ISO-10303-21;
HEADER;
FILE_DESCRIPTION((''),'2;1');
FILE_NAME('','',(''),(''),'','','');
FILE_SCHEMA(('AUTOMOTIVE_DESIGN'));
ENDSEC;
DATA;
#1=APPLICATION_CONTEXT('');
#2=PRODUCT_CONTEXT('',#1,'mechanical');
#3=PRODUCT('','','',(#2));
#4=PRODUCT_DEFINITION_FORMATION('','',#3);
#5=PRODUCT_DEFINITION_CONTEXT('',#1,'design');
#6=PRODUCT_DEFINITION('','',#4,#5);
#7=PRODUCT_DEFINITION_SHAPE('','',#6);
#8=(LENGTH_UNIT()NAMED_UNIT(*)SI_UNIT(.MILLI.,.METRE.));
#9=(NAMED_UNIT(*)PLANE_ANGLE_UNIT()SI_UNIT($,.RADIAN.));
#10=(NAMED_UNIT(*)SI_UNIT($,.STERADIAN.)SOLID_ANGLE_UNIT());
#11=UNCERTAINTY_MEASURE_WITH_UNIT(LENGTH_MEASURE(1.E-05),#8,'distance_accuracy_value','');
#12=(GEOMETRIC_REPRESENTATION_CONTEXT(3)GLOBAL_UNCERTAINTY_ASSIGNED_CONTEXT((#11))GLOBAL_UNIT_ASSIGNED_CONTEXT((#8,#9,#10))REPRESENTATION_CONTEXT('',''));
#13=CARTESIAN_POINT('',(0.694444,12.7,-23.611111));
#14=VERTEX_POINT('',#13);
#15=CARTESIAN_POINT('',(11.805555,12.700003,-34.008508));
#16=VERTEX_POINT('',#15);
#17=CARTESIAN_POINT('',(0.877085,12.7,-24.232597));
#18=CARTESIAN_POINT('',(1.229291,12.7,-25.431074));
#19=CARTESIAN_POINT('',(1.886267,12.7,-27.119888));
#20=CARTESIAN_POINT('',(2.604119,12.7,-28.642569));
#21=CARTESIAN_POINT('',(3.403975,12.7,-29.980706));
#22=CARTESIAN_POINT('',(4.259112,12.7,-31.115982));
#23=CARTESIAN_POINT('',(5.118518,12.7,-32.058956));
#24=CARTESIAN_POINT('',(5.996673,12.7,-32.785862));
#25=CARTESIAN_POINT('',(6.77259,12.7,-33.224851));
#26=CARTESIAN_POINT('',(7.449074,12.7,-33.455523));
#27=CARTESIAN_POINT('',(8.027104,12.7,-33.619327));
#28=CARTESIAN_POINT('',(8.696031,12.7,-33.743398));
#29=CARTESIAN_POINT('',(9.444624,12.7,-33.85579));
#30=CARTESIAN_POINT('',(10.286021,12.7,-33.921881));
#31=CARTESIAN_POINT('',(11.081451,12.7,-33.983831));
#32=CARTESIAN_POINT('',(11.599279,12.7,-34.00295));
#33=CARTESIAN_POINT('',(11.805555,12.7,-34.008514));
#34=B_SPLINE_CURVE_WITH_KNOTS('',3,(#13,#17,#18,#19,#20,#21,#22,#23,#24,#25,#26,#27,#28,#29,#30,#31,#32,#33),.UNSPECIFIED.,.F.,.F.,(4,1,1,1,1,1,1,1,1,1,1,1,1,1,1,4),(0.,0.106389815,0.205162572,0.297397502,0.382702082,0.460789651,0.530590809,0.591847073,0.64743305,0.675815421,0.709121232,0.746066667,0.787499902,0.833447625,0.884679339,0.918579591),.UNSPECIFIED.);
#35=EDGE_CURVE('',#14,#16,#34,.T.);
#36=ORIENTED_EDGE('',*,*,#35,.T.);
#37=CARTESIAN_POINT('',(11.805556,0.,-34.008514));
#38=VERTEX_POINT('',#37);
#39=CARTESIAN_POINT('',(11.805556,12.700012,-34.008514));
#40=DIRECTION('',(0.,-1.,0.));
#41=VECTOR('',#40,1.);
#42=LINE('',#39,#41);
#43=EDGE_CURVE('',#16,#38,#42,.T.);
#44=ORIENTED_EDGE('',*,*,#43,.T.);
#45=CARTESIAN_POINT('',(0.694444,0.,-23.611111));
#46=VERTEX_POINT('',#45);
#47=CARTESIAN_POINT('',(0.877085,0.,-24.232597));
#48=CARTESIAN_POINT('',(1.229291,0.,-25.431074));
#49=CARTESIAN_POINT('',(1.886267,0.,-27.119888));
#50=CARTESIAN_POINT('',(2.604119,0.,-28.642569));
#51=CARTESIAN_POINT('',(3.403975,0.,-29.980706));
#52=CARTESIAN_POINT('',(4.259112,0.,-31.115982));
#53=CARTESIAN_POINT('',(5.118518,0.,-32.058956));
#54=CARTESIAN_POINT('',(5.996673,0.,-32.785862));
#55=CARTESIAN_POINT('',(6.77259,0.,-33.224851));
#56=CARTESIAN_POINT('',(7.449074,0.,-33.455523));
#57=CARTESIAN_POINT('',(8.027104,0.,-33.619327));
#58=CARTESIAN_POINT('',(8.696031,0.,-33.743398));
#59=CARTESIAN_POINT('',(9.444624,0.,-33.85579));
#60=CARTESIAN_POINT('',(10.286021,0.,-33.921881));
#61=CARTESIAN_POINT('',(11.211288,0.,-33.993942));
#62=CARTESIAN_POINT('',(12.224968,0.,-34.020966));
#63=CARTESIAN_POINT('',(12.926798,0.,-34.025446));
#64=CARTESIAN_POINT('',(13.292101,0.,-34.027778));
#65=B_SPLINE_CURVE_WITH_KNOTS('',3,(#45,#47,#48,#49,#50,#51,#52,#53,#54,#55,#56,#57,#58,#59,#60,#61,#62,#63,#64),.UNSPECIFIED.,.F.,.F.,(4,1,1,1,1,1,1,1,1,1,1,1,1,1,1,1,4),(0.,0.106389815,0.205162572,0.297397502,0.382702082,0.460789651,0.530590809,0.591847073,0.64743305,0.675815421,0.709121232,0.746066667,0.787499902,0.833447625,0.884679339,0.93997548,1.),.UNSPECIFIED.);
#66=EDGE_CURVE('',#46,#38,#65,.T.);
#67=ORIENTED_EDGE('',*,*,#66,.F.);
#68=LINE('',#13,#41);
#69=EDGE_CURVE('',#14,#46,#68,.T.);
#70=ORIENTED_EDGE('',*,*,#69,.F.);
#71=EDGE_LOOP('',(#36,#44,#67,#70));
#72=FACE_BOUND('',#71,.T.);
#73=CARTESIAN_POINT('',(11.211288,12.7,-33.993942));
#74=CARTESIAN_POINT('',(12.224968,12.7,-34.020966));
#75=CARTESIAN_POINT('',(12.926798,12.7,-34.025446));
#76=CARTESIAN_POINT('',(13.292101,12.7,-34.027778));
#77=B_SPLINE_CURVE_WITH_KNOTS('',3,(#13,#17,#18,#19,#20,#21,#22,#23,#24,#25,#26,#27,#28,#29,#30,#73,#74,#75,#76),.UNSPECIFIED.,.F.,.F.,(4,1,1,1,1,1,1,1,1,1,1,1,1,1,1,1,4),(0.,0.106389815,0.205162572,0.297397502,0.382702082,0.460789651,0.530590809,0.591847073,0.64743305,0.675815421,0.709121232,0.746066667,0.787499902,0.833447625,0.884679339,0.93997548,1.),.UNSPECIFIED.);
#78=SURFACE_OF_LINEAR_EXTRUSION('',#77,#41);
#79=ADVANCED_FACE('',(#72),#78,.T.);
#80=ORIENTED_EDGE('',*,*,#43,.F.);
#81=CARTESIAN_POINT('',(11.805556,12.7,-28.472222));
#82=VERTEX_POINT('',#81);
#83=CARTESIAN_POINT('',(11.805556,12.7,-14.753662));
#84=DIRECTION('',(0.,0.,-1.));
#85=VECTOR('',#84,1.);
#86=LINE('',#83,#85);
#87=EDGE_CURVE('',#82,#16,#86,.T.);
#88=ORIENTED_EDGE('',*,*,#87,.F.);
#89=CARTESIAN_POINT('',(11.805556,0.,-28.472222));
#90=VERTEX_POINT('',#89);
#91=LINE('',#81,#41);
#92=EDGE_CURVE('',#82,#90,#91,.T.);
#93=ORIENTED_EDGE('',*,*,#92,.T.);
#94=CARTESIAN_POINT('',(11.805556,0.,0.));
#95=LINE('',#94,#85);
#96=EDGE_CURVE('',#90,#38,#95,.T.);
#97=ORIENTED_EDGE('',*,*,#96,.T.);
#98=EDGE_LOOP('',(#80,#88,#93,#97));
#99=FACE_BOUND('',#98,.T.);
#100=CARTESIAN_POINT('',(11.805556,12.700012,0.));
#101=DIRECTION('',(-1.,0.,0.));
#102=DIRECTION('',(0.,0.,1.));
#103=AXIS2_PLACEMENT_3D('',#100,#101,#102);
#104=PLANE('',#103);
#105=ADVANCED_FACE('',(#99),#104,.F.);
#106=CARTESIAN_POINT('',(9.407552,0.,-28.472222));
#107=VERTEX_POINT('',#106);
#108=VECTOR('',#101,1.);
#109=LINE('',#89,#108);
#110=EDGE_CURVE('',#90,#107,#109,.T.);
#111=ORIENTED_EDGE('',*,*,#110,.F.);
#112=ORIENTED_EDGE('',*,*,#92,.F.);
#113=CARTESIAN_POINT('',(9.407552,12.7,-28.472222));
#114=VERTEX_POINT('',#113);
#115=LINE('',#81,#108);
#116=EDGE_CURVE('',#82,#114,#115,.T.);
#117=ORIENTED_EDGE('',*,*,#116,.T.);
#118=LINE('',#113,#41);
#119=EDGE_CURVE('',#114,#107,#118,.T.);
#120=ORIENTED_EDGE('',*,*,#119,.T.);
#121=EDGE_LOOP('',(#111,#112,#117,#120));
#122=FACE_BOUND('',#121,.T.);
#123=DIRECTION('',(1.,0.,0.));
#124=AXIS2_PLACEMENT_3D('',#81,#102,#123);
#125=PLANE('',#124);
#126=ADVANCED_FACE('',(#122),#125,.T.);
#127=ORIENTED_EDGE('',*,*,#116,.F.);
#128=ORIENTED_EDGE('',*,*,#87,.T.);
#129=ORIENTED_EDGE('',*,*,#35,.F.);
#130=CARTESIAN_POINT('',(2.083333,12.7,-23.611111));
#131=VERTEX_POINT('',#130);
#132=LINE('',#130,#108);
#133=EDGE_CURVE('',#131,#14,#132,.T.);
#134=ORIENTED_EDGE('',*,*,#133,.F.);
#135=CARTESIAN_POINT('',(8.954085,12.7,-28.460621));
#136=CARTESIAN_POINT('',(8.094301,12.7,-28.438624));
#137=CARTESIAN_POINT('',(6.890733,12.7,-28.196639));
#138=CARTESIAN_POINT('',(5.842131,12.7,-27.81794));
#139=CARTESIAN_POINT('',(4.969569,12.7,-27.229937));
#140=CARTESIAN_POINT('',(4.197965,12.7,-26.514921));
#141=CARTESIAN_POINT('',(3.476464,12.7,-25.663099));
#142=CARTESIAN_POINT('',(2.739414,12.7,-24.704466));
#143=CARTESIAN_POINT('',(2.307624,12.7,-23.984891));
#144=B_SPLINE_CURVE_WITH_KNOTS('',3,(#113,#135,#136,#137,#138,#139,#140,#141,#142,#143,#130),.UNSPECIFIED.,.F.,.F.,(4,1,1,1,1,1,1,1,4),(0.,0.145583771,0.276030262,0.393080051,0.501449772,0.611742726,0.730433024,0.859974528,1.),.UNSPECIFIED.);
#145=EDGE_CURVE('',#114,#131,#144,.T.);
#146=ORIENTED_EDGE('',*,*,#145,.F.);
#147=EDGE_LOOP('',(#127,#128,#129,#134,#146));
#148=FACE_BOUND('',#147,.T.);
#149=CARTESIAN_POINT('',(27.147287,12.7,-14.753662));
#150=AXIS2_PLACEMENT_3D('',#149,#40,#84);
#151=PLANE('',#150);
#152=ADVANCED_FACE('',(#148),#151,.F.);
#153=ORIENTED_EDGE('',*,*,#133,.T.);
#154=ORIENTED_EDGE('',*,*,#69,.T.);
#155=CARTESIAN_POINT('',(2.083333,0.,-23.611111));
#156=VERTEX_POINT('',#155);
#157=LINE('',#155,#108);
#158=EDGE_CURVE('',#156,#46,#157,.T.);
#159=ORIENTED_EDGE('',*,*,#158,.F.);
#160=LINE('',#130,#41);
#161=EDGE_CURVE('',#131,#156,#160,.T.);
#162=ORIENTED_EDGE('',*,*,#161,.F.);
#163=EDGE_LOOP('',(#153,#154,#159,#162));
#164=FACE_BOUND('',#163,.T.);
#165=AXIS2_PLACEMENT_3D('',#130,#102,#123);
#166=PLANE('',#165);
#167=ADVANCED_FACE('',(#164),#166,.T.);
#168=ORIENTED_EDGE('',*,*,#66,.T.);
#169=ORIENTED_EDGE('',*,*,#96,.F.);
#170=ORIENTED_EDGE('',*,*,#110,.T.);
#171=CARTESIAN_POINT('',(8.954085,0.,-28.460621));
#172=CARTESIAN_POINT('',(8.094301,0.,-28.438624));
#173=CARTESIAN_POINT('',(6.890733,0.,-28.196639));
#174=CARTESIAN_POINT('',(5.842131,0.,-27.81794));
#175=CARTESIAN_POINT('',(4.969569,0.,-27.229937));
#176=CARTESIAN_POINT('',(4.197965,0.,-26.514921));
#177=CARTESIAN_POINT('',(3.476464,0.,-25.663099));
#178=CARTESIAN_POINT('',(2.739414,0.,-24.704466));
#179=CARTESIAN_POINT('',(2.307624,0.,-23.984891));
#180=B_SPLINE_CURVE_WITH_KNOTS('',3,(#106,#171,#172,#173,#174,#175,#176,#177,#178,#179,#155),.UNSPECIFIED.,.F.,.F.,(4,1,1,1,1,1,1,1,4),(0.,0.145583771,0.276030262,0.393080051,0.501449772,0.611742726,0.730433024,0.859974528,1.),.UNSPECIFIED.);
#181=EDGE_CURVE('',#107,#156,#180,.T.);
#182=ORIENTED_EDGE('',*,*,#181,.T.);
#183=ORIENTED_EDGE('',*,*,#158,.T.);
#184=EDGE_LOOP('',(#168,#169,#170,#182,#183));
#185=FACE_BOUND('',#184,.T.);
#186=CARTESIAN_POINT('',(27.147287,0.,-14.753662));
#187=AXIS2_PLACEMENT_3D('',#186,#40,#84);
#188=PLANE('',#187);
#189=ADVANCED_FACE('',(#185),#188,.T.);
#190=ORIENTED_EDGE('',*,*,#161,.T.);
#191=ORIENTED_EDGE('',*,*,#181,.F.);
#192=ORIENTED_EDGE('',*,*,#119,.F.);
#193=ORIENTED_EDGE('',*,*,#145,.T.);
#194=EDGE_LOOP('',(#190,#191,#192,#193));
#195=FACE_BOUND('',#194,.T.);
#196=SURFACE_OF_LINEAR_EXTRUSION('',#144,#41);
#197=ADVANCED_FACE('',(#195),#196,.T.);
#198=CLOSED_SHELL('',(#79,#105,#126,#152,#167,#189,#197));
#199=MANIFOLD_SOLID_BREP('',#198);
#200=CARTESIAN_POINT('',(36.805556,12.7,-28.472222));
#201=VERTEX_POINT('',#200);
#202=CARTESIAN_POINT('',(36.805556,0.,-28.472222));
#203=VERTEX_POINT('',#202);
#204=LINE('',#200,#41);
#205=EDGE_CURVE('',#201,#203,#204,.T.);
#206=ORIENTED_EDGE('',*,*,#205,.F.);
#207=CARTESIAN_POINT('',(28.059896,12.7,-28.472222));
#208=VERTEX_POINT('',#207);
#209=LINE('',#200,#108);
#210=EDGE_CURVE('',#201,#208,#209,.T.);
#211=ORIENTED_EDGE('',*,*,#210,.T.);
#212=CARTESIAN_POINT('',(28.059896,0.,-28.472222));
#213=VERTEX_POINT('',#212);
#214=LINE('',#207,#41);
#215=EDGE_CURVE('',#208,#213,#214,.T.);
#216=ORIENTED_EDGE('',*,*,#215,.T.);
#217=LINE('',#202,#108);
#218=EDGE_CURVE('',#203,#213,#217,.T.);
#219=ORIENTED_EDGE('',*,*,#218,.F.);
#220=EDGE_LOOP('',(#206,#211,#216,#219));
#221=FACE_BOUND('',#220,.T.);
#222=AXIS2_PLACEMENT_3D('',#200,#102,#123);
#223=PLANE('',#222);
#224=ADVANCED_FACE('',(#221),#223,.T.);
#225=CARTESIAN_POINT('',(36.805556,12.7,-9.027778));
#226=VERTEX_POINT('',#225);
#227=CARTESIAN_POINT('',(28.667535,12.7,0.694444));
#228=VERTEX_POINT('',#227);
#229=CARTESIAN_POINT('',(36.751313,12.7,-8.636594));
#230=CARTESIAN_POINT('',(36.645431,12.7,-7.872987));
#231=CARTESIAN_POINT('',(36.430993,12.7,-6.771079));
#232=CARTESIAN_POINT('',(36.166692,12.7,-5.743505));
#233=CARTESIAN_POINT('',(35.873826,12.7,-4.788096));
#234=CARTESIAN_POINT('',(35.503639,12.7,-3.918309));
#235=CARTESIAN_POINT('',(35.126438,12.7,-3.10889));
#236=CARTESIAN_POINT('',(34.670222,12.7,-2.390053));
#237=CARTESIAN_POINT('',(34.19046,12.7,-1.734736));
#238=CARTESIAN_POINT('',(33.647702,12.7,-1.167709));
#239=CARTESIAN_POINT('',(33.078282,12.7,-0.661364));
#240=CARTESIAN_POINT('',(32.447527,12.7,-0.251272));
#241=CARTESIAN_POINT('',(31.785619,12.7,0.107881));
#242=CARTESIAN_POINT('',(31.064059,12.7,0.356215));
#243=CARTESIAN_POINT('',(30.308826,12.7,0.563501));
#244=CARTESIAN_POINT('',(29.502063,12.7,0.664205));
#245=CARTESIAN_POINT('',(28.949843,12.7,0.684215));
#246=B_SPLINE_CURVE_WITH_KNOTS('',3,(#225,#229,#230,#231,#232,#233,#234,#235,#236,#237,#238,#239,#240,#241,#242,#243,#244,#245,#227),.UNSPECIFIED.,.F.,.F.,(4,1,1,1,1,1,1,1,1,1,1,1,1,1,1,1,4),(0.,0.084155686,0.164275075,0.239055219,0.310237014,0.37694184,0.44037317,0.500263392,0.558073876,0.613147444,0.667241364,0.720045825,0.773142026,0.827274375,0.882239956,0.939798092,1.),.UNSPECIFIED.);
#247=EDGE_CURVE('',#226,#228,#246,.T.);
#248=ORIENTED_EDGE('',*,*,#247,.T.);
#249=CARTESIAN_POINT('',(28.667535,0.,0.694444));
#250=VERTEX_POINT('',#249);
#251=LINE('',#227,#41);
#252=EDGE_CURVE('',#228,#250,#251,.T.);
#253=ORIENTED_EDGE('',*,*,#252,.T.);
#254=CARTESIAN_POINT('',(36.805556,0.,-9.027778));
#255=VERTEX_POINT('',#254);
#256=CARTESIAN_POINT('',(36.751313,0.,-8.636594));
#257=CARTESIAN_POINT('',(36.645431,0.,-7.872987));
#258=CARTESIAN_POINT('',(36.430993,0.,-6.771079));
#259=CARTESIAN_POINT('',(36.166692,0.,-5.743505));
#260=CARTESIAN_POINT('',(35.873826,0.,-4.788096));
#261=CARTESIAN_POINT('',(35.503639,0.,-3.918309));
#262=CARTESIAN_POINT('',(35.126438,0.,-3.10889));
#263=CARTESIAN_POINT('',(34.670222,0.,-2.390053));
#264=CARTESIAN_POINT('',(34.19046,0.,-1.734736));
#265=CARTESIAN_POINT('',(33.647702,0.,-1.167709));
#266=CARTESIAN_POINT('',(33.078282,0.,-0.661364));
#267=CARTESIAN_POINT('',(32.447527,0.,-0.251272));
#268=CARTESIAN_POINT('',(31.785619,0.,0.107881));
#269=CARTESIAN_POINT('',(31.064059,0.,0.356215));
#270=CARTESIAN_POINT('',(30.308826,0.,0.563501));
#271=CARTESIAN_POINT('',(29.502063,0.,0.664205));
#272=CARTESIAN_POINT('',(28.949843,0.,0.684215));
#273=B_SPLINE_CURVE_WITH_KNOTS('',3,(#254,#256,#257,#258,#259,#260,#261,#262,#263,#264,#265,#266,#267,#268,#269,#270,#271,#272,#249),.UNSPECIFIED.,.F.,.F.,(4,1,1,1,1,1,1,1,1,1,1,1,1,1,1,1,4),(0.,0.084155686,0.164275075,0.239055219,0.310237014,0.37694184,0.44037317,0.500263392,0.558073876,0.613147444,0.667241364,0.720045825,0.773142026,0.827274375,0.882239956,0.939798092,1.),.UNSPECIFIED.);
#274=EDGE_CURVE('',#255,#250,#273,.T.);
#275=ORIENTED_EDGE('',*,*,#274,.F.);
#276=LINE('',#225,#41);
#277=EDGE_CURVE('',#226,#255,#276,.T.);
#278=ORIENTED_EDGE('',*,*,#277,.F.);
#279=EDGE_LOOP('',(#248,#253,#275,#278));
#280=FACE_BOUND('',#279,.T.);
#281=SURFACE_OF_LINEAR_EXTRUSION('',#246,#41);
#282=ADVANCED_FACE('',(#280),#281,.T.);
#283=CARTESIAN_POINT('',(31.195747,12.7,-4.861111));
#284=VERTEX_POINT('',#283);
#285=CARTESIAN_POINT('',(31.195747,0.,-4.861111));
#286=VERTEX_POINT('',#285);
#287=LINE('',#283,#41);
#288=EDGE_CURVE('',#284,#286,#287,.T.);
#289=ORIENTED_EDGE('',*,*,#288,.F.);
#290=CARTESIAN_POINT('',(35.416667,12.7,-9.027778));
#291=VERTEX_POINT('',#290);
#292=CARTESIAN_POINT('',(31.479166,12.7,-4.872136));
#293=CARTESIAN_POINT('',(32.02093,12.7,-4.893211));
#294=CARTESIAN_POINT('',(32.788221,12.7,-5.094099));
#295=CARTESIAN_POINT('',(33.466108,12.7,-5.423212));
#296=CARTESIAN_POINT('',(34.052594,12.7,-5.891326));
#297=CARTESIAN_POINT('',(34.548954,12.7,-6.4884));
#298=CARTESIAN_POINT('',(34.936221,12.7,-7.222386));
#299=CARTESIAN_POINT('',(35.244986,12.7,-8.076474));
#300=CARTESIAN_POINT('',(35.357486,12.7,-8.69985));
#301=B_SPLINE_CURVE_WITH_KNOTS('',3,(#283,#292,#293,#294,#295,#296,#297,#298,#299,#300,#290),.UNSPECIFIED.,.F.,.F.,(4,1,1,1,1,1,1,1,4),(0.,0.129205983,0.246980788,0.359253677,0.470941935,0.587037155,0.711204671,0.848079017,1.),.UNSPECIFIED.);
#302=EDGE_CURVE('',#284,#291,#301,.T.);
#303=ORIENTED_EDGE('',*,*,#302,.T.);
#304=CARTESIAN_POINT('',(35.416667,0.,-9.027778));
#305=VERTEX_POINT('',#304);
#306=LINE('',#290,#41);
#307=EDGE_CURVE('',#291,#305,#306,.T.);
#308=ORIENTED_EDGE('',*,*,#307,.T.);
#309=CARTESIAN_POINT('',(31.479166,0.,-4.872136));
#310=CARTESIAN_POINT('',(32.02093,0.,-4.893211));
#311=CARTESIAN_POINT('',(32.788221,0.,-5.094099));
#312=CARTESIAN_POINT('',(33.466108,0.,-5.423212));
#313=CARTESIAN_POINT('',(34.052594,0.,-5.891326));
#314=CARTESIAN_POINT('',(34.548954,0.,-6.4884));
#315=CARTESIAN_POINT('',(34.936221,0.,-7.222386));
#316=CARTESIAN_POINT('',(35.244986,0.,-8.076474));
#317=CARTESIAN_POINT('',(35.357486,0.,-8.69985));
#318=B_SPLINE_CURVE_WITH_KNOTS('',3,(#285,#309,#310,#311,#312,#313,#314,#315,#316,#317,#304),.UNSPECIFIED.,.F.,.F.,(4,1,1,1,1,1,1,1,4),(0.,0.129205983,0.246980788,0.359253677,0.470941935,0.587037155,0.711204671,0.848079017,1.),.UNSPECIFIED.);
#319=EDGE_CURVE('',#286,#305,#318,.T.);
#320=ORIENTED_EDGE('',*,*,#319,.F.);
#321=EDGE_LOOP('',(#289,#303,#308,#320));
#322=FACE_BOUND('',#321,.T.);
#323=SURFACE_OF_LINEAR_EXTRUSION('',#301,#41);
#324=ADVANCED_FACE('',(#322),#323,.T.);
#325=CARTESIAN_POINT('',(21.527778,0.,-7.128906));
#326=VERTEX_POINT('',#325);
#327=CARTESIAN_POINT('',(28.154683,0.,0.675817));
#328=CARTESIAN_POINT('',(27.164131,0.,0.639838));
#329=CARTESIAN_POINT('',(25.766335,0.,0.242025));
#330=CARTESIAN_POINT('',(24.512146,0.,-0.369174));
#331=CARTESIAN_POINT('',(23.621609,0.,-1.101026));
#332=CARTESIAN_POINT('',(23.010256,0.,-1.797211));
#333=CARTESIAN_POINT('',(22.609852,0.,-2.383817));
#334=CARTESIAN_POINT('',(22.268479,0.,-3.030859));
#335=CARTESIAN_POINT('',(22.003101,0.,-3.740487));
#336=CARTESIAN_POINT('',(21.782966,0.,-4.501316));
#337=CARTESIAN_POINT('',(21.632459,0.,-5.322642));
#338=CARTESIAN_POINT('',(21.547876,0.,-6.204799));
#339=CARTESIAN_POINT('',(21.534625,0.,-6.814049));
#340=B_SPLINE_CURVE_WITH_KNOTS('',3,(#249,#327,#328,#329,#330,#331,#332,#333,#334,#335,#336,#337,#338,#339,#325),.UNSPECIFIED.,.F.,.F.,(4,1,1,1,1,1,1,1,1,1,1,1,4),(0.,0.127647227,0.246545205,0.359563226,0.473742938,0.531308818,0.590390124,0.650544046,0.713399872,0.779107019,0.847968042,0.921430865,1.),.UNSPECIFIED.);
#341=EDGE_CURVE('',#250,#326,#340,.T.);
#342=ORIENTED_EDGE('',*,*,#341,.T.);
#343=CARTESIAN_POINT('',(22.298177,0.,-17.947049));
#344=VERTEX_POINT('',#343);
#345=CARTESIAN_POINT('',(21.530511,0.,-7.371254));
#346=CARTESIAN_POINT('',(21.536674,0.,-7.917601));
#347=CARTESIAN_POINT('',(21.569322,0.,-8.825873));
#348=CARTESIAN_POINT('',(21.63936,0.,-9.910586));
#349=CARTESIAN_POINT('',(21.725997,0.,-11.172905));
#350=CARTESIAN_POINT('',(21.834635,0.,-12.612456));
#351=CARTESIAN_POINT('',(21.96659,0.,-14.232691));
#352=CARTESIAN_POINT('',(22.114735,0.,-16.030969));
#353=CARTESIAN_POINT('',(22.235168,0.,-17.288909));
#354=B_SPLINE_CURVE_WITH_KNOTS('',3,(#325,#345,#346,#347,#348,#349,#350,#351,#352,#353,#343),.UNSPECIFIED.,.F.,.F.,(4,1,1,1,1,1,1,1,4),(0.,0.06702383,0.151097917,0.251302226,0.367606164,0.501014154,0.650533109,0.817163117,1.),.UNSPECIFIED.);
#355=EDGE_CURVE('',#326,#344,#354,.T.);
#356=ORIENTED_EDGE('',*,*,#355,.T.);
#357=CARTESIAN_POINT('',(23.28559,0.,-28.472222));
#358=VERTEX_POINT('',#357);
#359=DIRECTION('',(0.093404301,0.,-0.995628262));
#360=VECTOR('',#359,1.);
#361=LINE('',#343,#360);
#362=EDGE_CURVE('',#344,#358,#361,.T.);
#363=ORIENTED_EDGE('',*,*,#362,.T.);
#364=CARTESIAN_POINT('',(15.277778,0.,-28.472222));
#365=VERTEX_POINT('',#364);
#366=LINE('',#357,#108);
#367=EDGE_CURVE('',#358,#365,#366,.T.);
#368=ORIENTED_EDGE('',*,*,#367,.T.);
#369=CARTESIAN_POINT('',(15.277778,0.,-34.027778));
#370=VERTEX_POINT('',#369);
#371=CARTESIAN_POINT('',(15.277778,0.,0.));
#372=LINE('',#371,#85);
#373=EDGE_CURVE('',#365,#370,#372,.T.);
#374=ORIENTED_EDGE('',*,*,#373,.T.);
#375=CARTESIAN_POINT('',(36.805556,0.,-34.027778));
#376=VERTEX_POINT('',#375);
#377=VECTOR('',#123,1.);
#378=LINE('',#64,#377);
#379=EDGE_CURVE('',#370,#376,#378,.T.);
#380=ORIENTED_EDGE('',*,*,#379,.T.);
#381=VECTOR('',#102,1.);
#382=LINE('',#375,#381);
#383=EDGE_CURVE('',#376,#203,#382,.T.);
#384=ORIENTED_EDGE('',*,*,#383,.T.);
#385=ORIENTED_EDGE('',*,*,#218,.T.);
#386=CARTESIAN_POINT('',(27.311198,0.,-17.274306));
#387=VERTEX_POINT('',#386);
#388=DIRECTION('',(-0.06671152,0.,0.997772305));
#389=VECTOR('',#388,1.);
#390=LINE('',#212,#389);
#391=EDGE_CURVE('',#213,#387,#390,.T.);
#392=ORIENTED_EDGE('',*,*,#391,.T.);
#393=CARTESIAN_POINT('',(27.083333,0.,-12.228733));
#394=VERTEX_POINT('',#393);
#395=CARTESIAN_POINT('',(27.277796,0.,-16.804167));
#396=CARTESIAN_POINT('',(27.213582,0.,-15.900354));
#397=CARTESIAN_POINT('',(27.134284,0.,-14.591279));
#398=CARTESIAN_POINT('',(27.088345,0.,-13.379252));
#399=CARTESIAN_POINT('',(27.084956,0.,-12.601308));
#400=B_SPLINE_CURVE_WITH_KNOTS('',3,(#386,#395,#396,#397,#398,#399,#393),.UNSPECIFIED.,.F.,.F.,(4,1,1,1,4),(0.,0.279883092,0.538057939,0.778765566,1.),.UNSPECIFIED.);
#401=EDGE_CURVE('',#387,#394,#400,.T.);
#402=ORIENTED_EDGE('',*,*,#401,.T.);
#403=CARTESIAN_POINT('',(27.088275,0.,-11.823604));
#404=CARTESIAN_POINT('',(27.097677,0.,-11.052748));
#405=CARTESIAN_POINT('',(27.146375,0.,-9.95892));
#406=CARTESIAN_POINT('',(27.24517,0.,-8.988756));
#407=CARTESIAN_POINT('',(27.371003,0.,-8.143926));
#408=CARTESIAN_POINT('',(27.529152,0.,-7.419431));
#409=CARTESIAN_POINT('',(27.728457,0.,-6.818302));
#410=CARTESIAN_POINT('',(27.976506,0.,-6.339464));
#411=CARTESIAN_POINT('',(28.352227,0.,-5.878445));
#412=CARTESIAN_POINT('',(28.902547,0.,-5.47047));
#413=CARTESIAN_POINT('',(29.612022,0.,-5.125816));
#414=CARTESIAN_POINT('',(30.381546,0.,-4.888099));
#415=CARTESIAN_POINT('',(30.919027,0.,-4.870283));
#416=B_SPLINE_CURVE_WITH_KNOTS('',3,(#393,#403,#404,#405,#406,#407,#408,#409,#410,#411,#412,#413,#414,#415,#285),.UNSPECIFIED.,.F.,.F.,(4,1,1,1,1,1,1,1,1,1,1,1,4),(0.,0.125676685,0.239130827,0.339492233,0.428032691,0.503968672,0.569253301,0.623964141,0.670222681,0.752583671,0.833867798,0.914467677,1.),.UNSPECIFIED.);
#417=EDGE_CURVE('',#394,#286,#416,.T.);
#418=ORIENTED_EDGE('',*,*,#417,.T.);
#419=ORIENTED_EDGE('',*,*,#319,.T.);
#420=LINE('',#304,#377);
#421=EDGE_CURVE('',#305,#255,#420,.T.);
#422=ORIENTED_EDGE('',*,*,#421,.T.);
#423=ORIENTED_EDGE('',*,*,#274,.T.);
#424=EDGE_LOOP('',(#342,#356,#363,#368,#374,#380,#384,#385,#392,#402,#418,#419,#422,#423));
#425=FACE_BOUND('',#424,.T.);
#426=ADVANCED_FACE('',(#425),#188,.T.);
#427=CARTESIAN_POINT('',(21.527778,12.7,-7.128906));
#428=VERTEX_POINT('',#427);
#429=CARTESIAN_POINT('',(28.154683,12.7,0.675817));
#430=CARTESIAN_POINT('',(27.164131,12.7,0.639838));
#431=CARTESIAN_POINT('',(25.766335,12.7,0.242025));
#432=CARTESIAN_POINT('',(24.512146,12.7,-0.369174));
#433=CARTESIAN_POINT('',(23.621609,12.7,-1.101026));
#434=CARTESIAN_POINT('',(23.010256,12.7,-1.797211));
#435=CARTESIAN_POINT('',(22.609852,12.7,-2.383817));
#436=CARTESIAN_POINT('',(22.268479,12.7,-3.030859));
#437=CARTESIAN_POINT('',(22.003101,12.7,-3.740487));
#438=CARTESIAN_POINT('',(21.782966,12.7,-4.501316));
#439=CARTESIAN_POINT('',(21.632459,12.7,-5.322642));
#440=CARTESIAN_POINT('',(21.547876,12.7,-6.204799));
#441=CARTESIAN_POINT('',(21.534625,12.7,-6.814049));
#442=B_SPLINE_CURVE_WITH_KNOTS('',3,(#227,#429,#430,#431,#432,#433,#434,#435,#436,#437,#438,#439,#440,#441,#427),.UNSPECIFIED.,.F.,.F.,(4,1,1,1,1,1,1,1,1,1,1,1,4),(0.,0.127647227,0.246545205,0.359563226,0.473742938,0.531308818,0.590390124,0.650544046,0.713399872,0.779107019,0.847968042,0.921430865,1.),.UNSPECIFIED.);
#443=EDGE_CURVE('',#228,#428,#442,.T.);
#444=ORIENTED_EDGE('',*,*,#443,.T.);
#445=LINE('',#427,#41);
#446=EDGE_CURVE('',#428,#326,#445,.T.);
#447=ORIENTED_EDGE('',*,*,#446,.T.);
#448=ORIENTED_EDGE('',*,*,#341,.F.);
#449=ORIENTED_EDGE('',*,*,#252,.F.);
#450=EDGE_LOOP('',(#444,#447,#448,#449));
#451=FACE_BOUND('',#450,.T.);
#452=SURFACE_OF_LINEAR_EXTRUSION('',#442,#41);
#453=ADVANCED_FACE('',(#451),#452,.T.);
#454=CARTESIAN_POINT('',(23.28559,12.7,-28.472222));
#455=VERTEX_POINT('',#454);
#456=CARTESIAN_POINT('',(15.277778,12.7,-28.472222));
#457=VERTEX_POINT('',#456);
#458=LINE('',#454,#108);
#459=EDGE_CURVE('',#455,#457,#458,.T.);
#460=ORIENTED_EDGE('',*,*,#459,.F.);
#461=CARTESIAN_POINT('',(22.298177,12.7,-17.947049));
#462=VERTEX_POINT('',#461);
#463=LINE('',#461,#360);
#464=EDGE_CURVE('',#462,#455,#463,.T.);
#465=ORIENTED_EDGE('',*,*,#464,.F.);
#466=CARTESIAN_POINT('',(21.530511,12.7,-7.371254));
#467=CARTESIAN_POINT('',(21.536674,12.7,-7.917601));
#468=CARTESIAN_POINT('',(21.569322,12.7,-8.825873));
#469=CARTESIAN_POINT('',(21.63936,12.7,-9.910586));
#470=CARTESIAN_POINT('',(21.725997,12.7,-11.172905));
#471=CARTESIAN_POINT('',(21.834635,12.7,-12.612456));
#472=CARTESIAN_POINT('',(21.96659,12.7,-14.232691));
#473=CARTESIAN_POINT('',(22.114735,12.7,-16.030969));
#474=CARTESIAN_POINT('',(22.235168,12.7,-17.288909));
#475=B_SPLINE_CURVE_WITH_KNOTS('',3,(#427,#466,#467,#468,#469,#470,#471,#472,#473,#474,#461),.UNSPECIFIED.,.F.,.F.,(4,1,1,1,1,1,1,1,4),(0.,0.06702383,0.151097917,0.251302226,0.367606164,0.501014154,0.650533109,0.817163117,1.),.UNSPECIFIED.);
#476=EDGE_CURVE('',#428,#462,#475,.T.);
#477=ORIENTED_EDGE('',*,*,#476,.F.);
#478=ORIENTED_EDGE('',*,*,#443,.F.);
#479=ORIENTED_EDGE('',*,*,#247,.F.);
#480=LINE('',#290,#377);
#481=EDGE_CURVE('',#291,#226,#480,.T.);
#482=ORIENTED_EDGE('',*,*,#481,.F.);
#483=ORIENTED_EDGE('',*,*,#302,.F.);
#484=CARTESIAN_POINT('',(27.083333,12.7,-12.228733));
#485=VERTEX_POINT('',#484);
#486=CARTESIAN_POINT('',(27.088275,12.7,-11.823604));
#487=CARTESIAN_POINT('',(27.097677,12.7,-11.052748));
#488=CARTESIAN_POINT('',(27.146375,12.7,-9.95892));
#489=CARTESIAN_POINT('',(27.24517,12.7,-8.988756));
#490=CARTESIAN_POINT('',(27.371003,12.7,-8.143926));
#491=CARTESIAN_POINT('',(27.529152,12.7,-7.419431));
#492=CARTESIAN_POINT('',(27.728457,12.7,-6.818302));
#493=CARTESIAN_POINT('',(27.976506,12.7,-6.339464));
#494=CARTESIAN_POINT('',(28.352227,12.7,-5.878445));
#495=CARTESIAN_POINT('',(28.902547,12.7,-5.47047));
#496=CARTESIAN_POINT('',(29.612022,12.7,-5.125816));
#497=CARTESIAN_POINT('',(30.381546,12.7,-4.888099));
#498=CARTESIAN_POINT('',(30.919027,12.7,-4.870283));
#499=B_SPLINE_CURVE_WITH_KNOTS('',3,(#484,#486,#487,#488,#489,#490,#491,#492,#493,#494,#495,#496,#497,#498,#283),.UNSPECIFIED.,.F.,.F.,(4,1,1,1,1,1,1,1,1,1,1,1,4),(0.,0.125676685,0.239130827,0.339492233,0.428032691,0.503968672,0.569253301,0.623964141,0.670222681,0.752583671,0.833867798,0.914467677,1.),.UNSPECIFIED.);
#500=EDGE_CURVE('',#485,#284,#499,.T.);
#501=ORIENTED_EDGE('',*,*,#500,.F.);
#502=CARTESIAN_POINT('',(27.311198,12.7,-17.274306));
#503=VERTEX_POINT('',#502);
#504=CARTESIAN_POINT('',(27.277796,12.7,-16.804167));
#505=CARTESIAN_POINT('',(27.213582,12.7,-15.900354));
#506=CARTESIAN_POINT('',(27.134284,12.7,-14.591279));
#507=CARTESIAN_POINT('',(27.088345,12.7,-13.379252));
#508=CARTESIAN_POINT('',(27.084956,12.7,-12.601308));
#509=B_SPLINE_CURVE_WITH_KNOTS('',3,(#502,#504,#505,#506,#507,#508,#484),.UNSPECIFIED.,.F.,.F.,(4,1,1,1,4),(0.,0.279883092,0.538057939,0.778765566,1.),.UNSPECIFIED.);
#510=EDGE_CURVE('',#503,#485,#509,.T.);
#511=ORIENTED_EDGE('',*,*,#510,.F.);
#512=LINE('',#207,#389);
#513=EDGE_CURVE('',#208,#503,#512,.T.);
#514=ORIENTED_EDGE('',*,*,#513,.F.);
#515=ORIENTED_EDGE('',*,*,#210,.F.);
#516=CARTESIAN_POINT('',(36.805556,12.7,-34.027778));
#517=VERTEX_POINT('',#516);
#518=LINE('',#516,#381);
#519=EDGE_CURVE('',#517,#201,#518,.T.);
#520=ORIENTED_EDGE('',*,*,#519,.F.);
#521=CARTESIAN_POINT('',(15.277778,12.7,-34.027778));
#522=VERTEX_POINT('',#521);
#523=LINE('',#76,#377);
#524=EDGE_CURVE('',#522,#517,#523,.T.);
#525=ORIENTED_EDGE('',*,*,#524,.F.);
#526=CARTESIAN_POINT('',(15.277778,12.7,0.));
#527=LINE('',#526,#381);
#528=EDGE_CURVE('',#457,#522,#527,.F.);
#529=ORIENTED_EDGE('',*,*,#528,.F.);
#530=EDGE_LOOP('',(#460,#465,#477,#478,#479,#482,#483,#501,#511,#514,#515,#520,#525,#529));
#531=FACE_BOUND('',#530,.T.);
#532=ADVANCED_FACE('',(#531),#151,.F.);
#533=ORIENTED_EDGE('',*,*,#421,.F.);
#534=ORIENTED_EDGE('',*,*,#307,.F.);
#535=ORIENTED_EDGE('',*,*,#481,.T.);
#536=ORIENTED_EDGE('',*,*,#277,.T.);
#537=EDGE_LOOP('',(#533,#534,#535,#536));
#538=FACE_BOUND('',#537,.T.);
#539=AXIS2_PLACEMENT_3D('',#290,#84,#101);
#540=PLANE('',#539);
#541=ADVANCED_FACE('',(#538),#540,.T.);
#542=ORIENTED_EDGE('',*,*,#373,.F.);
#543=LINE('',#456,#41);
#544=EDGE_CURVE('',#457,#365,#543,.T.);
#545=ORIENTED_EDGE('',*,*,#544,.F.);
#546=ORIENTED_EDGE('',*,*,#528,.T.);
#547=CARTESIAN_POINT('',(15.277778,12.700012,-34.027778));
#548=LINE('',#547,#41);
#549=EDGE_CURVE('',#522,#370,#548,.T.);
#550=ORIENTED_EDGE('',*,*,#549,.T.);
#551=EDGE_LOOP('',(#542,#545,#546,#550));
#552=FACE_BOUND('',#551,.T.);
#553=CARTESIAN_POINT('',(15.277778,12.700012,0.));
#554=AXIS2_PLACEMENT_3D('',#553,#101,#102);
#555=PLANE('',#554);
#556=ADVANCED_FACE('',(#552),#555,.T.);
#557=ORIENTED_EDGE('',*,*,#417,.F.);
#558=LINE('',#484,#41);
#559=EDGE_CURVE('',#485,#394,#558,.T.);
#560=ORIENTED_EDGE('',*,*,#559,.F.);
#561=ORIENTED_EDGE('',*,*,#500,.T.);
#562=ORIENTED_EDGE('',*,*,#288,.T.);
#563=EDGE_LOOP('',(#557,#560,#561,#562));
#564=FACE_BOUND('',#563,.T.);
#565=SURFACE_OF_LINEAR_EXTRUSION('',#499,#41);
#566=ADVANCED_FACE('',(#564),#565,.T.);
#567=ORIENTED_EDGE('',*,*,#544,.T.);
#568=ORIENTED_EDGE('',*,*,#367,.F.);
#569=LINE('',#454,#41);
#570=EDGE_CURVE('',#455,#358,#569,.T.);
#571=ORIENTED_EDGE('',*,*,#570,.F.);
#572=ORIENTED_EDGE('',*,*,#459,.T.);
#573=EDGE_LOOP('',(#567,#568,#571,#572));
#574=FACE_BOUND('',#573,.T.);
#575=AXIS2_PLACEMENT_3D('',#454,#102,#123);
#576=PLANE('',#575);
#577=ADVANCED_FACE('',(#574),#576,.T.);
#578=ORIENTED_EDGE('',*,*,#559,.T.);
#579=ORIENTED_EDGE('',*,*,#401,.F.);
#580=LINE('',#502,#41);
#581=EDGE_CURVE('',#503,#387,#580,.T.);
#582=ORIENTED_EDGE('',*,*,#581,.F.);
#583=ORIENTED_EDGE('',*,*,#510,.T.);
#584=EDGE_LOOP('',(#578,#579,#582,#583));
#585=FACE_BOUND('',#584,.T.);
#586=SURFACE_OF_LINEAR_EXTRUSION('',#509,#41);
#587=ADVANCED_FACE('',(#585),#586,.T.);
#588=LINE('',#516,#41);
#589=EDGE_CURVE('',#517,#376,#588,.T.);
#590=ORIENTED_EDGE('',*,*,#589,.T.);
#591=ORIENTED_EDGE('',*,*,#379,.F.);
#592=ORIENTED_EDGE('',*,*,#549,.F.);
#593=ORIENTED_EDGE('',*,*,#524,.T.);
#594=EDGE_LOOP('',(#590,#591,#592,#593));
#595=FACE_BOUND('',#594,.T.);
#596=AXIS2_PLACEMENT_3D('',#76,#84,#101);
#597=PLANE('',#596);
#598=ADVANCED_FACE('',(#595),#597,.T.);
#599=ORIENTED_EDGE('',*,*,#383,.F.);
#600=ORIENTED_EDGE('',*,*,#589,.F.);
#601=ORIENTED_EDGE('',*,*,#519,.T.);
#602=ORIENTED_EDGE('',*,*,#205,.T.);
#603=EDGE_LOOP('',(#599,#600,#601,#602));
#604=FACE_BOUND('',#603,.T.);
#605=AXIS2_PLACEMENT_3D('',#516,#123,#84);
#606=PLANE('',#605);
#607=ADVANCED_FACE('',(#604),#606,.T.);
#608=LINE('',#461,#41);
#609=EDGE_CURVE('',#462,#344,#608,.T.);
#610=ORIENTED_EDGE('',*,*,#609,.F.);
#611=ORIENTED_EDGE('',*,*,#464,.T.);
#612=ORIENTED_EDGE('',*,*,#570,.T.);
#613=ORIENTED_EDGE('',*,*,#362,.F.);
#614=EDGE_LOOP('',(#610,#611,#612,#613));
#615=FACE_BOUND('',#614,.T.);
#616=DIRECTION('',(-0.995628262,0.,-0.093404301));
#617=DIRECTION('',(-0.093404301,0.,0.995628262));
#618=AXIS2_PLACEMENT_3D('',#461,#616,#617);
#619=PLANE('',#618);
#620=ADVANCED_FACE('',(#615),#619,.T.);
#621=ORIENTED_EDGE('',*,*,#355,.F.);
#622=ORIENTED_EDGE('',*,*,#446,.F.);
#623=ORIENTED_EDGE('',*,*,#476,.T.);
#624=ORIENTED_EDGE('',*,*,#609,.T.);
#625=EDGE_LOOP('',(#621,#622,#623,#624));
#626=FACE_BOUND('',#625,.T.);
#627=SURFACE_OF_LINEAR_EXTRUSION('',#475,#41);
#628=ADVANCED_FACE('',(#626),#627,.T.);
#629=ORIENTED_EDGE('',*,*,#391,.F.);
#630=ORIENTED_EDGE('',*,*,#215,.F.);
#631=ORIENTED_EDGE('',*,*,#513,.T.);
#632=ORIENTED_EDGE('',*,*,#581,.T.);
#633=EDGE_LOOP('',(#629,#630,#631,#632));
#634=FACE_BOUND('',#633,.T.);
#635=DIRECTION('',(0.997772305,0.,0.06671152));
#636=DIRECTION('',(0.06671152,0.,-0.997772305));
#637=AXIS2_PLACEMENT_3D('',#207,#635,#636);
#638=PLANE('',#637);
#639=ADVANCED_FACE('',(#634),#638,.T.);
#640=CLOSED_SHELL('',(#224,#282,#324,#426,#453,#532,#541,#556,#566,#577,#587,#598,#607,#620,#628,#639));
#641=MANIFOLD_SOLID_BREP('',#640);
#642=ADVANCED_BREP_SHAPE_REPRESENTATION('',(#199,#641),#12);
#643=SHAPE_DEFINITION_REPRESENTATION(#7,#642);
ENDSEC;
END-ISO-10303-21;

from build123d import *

# Parameters (mm, degrees)
BOSS_EXTRUDE1_DEPTH     = 12.7
CUT_EXTRUDE2_DEPTH      = 52.709076543
CUT_EXTRUDE2_DEPTH_BACK = 12.7


with BuildPart() as part:
    # Sketch2 → Boss-Extrude1 (new body)
    with BuildSketch(Plane(origin=(0, 0, 0), x_dir=(1, 0, 0), z_dir=(0, 1, 0))):
        with BuildLine():
            Line((36.805555556, 34.027777778), (36.805555556, 28.472222222))
            Line((36.805555556, 28.472222222), (28.059895833, 28.472222222))
            Line((28.059895833, 28.472222222), (27.311197917, 17.274305556))
            add(Edge.make_bspline(
                [(27.311197917, 17.274305556), (27.277795656, 16.804166639), (27.213581874, 15.900353642), (27.134284285, 14.591279231), (27.088344823, 13.379251723), (27.084956214, 12.601307574), (27.083333333, 12.228732639)],
                knots=[0, 0, 0, 0, 1.119532368, 2.152231754, 3.115062263, 4, 4, 4, 4], degree=3))
            add(Edge.make_bspline(
                [(27.083333333, 12.228732639), (27.088274581, 11.823604319), (27.097676522, 11.052747972), (27.1463749, 9.958919939), (27.245170271, 8.988755862), (27.371002693, 8.143926135), (27.529152233, 7.419430528), (27.728457334, 6.818301639), (27.97650636, 6.339464464), (28.352227221, 5.878445418), (28.902546694, 5.47047021), (29.612022333, 5.12581616), (30.381545964, 4.888099058), (30.919027092, 4.870283408), (31.195746528, 4.861111111)],
                knots=[0, 0, 0, 0, 1.508120221, 2.869569927, 4.073906796, 5.136392291, 6.047624064, 6.831039609, 7.487569696, 8.042672177, 9.031004047, 10.006413578, 10.97361213, 12, 12, 12, 12], degree=3))
            add(Edge.make_bspline(
                [(31.195746528, 4.861111111), (31.47916585, 4.872136088), (32.020929674, 4.893210634), (32.788220791, 5.094099051), (33.466107529, 5.423211567), (34.05259416, 5.891325855), (34.548953998, 6.488400226), (34.936220725, 7.22238631), (35.244986398, 8.076473761), (35.357486114, 8.699850181), (35.416666667, 9.027777778)],
                knots=[0, 0, 0, 0, 1.033647866, 1.975846305, 2.874029418, 3.767535477, 4.696297243, 5.689637366, 6.784632136, 8, 8, 8, 8], degree=3))
            Line((35.416666667, 9.027777778), (36.805555556, 9.027777778))
            add(Edge.make_bspline(
                [(36.805555556, 9.027777778), (36.751313392, 8.636593642), (36.645430641, 7.872987448), (36.430993277, 6.771079076), (36.1666915, 5.743505172), (35.873825885, 4.788096172), (35.503638642, 3.918308722), (35.126438428, 3.108890157), (34.67022236, 2.39005292), (34.190460036, 1.734735752), (33.64770155, 1.167708505), (33.078282467, 0.661363985), (32.447526517, 0.251271838), (31.785619175, -0.107880779), (31.064059185, -0.356214557), (30.308826122, -0.563500536), (29.502063403, -0.664205141), (28.949843487, -0.684214933), (28.667534722, -0.694444444)],
                knots=[0, 0, 0, 0, 1.346490984, 2.628401203, 3.824883511, 4.963792231, 6.031069444, 7.045970716, 8.004214277, 8.929182016, 9.810359102, 10.675861826, 11.520733207, 12.370272421, 13.236390006, 14.115839292, 15.03676947, 16, 16, 16, 16], degree=3))
            add(Edge.make_bspline(
                [(28.667534722, -0.694444444), (28.154682861, -0.675816782), (27.164131243, -0.639838242), (25.766335044, -0.242024901), (24.512145619, 0.369174112), (23.621609051, 1.101026149), (23.010255911, 1.797210882), (22.609852371, 2.383817061), (22.268478936, 3.030858971), (22.003101082, 3.740487332), (21.782965902, 4.501315843), (21.632459475, 5.322642072), (21.547875637, 6.204798769), (21.53462541, 6.814049436), (21.527777778, 7.12890625)],
                knots=[0, 0, 0, 0, 1.53176672, 2.958542455, 4.314758716, 5.68491526, 6.375705814, 7.084681483, 7.806528549, 8.560798466, 9.349284224, 10.175616502, 11.057170379, 12, 12, 12, 12], degree=3))
            add(Edge.make_bspline(
                [(21.527777778, 7.12890625), (21.530511411, 7.37125412), (21.536674087, 7.917600965), (21.569321673, 8.825873224), (21.639359606, 9.910585643), (21.725996598, 11.172904628), (21.834635018, 12.612456183), (21.96658957, 14.232690848), (22.114735136, 16.030968586), (22.235168036, 17.288909187), (22.298177083, 17.947048611)],
                knots=[0, 0, 0, 0, 0.536190643, 1.208783333, 2.010417809, 2.94084931, 4.00811323, 5.204264869, 6.537304937, 8, 8, 8, 8], degree=3))
            Line((22.298177083, 17.947048611), (23.285590278, 28.472222222))
            Line((23.285590278, 28.472222222), (15.277777778, 28.472222222))
            add(Edge.make_bspline(
                [(15.277777778, 28.472222222), (15.214460278, 27.401507925), (15.092072877, 25.331907254), (14.886109564, 22.340596723), (14.670777515, 19.573381685), (14.442846588, 17.030553937), (14.208342944, 14.71137929), (13.954506302, 12.617981517), (13.715610292, 10.74508508), (13.436521107, 9.086740026), (13.164846669, 7.602952782), (12.886850841, 6.270387957), (12.590238795, 5.07441313), (12.303899426, 4.011159992), (12.003972777, 3.085637953), (11.686744628, 2.301603715), (11.378814424, 1.642404725), (10.958043065, 0.964152103), (10.358101863, 0.292051075), (9.505081424, -0.285187523), (8.526340218, -0.641645855), (7.833640049, -0.676470824), (7.476128472, -0.694444444)],
                knots=[0, 0, 0, 0, 2.01044623, 3.886023449, 5.620111306, 7.212895615, 8.671360263, 9.989066837, 11.16552434, 12.209857215, 13.140654073, 13.99296191, 14.760845937, 15.449993852, 16.056713946, 16.582946555, 17.034739681, 17.418487115, 18.076100987, 18.706013306, 19.33215662, 20, 20, 20, 20], degree=3))
            add(Edge.make_bspline(
                [(7.476128472, -0.694444444), (7.207412809, -0.681627697), (6.681489385, -0.656543087), (5.927311086, -0.469815134), (5.234803565, -0.159026243), (4.623769653, 0.271526397), (4.10585267, 0.797998542), (3.737602188, 1.427988796), (3.515453468, 2.133829731), (3.486861324, 2.631486012), (3.472222222, 2.886284722)],
                knots=[0, 0, 0, 0, 1.073515936, 2.101057932, 3.084730514, 4.091615775, 5.073373561, 6.013242394, 6.982785322, 8, 8, 8, 8], degree=3))
            add(Edge.make_bspline(
                [(3.472222222, 2.886284722), (3.49977796, 3.167601475), (3.56174898, 3.800264126), (3.975195909, 4.785596558), (4.58793497, 5.912424554), (5.130000946, 6.671771181), (5.425347222, 7.085503472)],
                knots=[0, 0, 0, 0, 0.719350384, 1.617771125, 2.702035439, 4, 4, 4, 4], degree=3))
            add(Edge.make_bspline(
                [(5.425347222, 7.085503472), (5.880890291, 7.733268934), (6.778468477, 9.009592048), (7.924062056, 11.019134082), (8.912809694, 13.051591024), (9.583491505, 14.814505434), (10.052627408, 16.316401679), (10.355193153, 17.603017915), (10.666713374, 19.033013262), (10.926646603, 20.624922957), (11.194761694, 22.366552488), (11.410609585, 24.268277428), (11.637107009, 26.317618199), (11.748122743, 27.737606389), (11.805555556, 28.472222222)],
                knots=[0, 0, 0, 0, 1.256859471, 2.476450027, 3.668368903, 4.842737386, 5.467680022, 6.165560467, 6.940549266, 7.791280764, 8.726175375, 9.738470097, 10.830021485, 12, 12, 12, 12], degree=3))
            Line((11.805555556, 28.472222222), (9.407552083, 28.472222222))
            add(Edge.make_bspline(
                [(9.407552083, 28.472222222), (8.954085196, 28.460620671), (8.094301289, 28.438623856), (6.890732805, 28.196638527), (5.842130851, 27.81794011), (4.969568852, 27.229936528), (4.197964836, 26.514921386), (3.47646424, 25.663099106), (2.739413588, 24.704465568), (2.307624449, 23.984891132), (2.083333333, 23.611111111)],
                knots=[0, 0, 0, 0, 1.164670171, 2.208242094, 3.144640406, 4.011598175, 4.893941805, 5.843464191, 6.879796223, 8, 8, 8, 8], degree=3))
            Line((2.083333333, 23.611111111), (0.694444444, 23.611111111))
            add(Edge.make_bspline(
                [(0.694444444, 23.611111111), (0.877085401, 24.232597394), (1.229291, 25.431074191), (1.886266978, 27.119888333), (2.60411942, 28.642568556), (3.40397479, 29.980706486), (4.259111756, 31.115981615), (5.118517845, 32.058955597), (5.996672541, 32.785861584), (6.772590288, 33.224850634), (7.449074281, 33.455523285), (8.027104125, 33.619326955), (8.696031334, 33.743397524), (9.444623844, 33.855790163), (10.28602055, 33.921881494), (11.211287579, 33.993942488), (12.22496831, 34.020966417), (12.926797761, 34.025446099), (13.292100694, 34.027777778)],
                knots=[0, 0, 0, 0, 1.702237036, 3.282601159, 4.758360036, 6.123233304, 7.372634412, 8.489452943, 9.469553166, 10.358928799, 10.813046741, 11.345939706, 11.937066667, 12.599998432, 13.335161994, 14.154869419, 15.039607681, 16, 16, 16, 16], degree=3))
            Line((13.292100694, 34.027777778), (36.805555556, 34.027777778))
        make_face()
    extrude(amount=BOSS_EXTRUDE1_DEPTH)

    # Sketch3 → Cut-Extrude2 (cut, two sides: drawn at the far end of the back side and taken through both)
    with BuildSketch(Plane(origin=(0, 12.7, 0), x_dir=(1, 0, 0), z_dir=(0, 1, 0)).offset(-CUT_EXTRUDE2_DEPTH_BACK)):
        with BuildLine():
            Line((11.805555556, 28.472222222), (15.277777778, 28.472222222))
            add(Edge.make_bspline(
                [(7.476128472, -0.694444444), (7.833640049, -0.676470824), (8.526340218, -0.641645855), (9.505081424, -0.285187523), (10.358101863, 0.292051075), (10.958043065, 0.964152103), (11.378814424, 1.642404725), (11.686744628, 2.301603715), (12.003972777, 3.085637953), (12.303899426, 4.011159992), (12.590238795, 5.07441313), (12.886850841, 6.270387957), (13.164846669, 7.602952782), (13.436521107, 9.086740026), (13.715610292, 10.74508508), (13.954506302, 12.617981517), (14.208342944, 14.71137929), (14.442846588, 17.030553937), (14.670777515, 19.573381685), (14.886109564, 22.340596723), (15.092072877, 25.331907254), (15.214460278, 27.401507925), (15.277777778, 28.472222222)],
                knots=[0, 0, 0, 0, 0.033392169, 0.064699335, 0.096194951, 0.129075644, 0.148263016, 0.170852672, 0.197164303, 0.227500307, 0.261957703, 0.300351905, 0.342967296, 0.389507139, 0.441723783, 0.500546658, 0.566431987, 0.639355219, 0.718994435, 0.805698828, 0.899477689, 1, 1, 1, 1], degree=3))
            add(Edge.make_bspline(
                [(3.472222222, 2.886284722), (3.486861324, 2.631486012), (3.515453468, 2.133829731), (3.737602188, 1.427988796), (4.10585267, 0.797998542), (4.623769653, 0.271526397), (5.234803565, -0.159026243), (5.927311086, -0.469815134), (6.681489385, -0.656543087), (7.207412809, -0.681627697), (7.476128472, -0.694444444)],
                knots=[0, 0, 0, 0, 0.127151835, 0.248344701, 0.365828305, 0.488548028, 0.614408686, 0.737367758, 0.865810508, 1, 1, 1, 1], degree=3))
            add(Edge.make_bspline(
                [(5.425347222, 7.085503472), (5.130000946, 6.671771181), (4.58793497, 5.912424554), (3.975195909, 4.785596558), (3.56174898, 3.800264126), (3.49977796, 3.167601475), (3.472222222, 2.886284722)],
                knots=[0, 0, 0, 0, 0.32449114, 0.595557219, 0.820162404, 1, 1, 1, 1], degree=3))
            add(Edge.make_bspline(
                [(11.805555556, 28.472222222), (11.748122743, 27.737606389), (11.637107009, 26.317618199), (11.410609585, 24.268277428), (11.194761694, 22.366552488), (10.926646603, 20.624922957), (10.666713374, 19.033013262), (10.355193153, 17.603017915), (10.052627408, 16.316401679), (9.583491505, 14.814505434), (8.912809694, 13.051591024), (7.924062056, 11.019134082), (6.778468477, 9.009592048), (5.880890291, 7.733268934), (5.425347222, 7.085503472)],
                knots=[0, 0, 0, 0, 0.09749821, 0.188460825, 0.272818719, 0.350726603, 0.421620894, 0.486203294, 0.544359998, 0.596438551, 0.694302591, 0.793629164, 0.895261711, 1, 1, 1, 1], degree=3))
        make_face()
        with BuildLine():
            Line((11.805555556, 34.00851445), (11.805555556, 28.472222222))
            Line((11.805555556, 28.472222222), (15.277777778, 28.472222222))
            Line((15.277777778, 28.472222222), (15.277777778, 34.027777778))
            Line((15.277777778, 34.027777778), (13.292100694, 34.027777778))
            add(Edge.make_bspline(
                [(13.292100694, 34.027777778), (12.926797761, 34.025446099), (12.431281834, 34.022283288), (11.935745047, 34.012026213), (11.805555556, 34.00851445)],
                knots=[0, 0, 0, 0, 0.06002452, 0.081420385, 0.081420385, 0.081420385, 0.081420385], degree=3))
        make_face()
    extrude(amount=CUT_EXTRUDE2_DEPTH + CUT_EXTRUDE2_DEPTH_BACK, mode=Mode.SUBTRACT)


with BuildPart() as cut_extrude2_piece_1:
    # of the separate pieces the step leaves, piece 1, a body of its own (cut_extrude2_pieces)
    add(part.part.solids().sort_by_distance((36.805555556, 0, -34.027777778))[0])


with BuildPart() as cut_extrude2_piece_2:
    # of the separate pieces the step leaves, piece 2, a body of its own (cut_extrude2_pieces)
    add(part.part.solids().sort_by_distance((0.694444444, 0, -23.611111111))[0])


solid = Compound([cut_extrude2_piece_1.part, cut_extrude2_piece_2.part])
